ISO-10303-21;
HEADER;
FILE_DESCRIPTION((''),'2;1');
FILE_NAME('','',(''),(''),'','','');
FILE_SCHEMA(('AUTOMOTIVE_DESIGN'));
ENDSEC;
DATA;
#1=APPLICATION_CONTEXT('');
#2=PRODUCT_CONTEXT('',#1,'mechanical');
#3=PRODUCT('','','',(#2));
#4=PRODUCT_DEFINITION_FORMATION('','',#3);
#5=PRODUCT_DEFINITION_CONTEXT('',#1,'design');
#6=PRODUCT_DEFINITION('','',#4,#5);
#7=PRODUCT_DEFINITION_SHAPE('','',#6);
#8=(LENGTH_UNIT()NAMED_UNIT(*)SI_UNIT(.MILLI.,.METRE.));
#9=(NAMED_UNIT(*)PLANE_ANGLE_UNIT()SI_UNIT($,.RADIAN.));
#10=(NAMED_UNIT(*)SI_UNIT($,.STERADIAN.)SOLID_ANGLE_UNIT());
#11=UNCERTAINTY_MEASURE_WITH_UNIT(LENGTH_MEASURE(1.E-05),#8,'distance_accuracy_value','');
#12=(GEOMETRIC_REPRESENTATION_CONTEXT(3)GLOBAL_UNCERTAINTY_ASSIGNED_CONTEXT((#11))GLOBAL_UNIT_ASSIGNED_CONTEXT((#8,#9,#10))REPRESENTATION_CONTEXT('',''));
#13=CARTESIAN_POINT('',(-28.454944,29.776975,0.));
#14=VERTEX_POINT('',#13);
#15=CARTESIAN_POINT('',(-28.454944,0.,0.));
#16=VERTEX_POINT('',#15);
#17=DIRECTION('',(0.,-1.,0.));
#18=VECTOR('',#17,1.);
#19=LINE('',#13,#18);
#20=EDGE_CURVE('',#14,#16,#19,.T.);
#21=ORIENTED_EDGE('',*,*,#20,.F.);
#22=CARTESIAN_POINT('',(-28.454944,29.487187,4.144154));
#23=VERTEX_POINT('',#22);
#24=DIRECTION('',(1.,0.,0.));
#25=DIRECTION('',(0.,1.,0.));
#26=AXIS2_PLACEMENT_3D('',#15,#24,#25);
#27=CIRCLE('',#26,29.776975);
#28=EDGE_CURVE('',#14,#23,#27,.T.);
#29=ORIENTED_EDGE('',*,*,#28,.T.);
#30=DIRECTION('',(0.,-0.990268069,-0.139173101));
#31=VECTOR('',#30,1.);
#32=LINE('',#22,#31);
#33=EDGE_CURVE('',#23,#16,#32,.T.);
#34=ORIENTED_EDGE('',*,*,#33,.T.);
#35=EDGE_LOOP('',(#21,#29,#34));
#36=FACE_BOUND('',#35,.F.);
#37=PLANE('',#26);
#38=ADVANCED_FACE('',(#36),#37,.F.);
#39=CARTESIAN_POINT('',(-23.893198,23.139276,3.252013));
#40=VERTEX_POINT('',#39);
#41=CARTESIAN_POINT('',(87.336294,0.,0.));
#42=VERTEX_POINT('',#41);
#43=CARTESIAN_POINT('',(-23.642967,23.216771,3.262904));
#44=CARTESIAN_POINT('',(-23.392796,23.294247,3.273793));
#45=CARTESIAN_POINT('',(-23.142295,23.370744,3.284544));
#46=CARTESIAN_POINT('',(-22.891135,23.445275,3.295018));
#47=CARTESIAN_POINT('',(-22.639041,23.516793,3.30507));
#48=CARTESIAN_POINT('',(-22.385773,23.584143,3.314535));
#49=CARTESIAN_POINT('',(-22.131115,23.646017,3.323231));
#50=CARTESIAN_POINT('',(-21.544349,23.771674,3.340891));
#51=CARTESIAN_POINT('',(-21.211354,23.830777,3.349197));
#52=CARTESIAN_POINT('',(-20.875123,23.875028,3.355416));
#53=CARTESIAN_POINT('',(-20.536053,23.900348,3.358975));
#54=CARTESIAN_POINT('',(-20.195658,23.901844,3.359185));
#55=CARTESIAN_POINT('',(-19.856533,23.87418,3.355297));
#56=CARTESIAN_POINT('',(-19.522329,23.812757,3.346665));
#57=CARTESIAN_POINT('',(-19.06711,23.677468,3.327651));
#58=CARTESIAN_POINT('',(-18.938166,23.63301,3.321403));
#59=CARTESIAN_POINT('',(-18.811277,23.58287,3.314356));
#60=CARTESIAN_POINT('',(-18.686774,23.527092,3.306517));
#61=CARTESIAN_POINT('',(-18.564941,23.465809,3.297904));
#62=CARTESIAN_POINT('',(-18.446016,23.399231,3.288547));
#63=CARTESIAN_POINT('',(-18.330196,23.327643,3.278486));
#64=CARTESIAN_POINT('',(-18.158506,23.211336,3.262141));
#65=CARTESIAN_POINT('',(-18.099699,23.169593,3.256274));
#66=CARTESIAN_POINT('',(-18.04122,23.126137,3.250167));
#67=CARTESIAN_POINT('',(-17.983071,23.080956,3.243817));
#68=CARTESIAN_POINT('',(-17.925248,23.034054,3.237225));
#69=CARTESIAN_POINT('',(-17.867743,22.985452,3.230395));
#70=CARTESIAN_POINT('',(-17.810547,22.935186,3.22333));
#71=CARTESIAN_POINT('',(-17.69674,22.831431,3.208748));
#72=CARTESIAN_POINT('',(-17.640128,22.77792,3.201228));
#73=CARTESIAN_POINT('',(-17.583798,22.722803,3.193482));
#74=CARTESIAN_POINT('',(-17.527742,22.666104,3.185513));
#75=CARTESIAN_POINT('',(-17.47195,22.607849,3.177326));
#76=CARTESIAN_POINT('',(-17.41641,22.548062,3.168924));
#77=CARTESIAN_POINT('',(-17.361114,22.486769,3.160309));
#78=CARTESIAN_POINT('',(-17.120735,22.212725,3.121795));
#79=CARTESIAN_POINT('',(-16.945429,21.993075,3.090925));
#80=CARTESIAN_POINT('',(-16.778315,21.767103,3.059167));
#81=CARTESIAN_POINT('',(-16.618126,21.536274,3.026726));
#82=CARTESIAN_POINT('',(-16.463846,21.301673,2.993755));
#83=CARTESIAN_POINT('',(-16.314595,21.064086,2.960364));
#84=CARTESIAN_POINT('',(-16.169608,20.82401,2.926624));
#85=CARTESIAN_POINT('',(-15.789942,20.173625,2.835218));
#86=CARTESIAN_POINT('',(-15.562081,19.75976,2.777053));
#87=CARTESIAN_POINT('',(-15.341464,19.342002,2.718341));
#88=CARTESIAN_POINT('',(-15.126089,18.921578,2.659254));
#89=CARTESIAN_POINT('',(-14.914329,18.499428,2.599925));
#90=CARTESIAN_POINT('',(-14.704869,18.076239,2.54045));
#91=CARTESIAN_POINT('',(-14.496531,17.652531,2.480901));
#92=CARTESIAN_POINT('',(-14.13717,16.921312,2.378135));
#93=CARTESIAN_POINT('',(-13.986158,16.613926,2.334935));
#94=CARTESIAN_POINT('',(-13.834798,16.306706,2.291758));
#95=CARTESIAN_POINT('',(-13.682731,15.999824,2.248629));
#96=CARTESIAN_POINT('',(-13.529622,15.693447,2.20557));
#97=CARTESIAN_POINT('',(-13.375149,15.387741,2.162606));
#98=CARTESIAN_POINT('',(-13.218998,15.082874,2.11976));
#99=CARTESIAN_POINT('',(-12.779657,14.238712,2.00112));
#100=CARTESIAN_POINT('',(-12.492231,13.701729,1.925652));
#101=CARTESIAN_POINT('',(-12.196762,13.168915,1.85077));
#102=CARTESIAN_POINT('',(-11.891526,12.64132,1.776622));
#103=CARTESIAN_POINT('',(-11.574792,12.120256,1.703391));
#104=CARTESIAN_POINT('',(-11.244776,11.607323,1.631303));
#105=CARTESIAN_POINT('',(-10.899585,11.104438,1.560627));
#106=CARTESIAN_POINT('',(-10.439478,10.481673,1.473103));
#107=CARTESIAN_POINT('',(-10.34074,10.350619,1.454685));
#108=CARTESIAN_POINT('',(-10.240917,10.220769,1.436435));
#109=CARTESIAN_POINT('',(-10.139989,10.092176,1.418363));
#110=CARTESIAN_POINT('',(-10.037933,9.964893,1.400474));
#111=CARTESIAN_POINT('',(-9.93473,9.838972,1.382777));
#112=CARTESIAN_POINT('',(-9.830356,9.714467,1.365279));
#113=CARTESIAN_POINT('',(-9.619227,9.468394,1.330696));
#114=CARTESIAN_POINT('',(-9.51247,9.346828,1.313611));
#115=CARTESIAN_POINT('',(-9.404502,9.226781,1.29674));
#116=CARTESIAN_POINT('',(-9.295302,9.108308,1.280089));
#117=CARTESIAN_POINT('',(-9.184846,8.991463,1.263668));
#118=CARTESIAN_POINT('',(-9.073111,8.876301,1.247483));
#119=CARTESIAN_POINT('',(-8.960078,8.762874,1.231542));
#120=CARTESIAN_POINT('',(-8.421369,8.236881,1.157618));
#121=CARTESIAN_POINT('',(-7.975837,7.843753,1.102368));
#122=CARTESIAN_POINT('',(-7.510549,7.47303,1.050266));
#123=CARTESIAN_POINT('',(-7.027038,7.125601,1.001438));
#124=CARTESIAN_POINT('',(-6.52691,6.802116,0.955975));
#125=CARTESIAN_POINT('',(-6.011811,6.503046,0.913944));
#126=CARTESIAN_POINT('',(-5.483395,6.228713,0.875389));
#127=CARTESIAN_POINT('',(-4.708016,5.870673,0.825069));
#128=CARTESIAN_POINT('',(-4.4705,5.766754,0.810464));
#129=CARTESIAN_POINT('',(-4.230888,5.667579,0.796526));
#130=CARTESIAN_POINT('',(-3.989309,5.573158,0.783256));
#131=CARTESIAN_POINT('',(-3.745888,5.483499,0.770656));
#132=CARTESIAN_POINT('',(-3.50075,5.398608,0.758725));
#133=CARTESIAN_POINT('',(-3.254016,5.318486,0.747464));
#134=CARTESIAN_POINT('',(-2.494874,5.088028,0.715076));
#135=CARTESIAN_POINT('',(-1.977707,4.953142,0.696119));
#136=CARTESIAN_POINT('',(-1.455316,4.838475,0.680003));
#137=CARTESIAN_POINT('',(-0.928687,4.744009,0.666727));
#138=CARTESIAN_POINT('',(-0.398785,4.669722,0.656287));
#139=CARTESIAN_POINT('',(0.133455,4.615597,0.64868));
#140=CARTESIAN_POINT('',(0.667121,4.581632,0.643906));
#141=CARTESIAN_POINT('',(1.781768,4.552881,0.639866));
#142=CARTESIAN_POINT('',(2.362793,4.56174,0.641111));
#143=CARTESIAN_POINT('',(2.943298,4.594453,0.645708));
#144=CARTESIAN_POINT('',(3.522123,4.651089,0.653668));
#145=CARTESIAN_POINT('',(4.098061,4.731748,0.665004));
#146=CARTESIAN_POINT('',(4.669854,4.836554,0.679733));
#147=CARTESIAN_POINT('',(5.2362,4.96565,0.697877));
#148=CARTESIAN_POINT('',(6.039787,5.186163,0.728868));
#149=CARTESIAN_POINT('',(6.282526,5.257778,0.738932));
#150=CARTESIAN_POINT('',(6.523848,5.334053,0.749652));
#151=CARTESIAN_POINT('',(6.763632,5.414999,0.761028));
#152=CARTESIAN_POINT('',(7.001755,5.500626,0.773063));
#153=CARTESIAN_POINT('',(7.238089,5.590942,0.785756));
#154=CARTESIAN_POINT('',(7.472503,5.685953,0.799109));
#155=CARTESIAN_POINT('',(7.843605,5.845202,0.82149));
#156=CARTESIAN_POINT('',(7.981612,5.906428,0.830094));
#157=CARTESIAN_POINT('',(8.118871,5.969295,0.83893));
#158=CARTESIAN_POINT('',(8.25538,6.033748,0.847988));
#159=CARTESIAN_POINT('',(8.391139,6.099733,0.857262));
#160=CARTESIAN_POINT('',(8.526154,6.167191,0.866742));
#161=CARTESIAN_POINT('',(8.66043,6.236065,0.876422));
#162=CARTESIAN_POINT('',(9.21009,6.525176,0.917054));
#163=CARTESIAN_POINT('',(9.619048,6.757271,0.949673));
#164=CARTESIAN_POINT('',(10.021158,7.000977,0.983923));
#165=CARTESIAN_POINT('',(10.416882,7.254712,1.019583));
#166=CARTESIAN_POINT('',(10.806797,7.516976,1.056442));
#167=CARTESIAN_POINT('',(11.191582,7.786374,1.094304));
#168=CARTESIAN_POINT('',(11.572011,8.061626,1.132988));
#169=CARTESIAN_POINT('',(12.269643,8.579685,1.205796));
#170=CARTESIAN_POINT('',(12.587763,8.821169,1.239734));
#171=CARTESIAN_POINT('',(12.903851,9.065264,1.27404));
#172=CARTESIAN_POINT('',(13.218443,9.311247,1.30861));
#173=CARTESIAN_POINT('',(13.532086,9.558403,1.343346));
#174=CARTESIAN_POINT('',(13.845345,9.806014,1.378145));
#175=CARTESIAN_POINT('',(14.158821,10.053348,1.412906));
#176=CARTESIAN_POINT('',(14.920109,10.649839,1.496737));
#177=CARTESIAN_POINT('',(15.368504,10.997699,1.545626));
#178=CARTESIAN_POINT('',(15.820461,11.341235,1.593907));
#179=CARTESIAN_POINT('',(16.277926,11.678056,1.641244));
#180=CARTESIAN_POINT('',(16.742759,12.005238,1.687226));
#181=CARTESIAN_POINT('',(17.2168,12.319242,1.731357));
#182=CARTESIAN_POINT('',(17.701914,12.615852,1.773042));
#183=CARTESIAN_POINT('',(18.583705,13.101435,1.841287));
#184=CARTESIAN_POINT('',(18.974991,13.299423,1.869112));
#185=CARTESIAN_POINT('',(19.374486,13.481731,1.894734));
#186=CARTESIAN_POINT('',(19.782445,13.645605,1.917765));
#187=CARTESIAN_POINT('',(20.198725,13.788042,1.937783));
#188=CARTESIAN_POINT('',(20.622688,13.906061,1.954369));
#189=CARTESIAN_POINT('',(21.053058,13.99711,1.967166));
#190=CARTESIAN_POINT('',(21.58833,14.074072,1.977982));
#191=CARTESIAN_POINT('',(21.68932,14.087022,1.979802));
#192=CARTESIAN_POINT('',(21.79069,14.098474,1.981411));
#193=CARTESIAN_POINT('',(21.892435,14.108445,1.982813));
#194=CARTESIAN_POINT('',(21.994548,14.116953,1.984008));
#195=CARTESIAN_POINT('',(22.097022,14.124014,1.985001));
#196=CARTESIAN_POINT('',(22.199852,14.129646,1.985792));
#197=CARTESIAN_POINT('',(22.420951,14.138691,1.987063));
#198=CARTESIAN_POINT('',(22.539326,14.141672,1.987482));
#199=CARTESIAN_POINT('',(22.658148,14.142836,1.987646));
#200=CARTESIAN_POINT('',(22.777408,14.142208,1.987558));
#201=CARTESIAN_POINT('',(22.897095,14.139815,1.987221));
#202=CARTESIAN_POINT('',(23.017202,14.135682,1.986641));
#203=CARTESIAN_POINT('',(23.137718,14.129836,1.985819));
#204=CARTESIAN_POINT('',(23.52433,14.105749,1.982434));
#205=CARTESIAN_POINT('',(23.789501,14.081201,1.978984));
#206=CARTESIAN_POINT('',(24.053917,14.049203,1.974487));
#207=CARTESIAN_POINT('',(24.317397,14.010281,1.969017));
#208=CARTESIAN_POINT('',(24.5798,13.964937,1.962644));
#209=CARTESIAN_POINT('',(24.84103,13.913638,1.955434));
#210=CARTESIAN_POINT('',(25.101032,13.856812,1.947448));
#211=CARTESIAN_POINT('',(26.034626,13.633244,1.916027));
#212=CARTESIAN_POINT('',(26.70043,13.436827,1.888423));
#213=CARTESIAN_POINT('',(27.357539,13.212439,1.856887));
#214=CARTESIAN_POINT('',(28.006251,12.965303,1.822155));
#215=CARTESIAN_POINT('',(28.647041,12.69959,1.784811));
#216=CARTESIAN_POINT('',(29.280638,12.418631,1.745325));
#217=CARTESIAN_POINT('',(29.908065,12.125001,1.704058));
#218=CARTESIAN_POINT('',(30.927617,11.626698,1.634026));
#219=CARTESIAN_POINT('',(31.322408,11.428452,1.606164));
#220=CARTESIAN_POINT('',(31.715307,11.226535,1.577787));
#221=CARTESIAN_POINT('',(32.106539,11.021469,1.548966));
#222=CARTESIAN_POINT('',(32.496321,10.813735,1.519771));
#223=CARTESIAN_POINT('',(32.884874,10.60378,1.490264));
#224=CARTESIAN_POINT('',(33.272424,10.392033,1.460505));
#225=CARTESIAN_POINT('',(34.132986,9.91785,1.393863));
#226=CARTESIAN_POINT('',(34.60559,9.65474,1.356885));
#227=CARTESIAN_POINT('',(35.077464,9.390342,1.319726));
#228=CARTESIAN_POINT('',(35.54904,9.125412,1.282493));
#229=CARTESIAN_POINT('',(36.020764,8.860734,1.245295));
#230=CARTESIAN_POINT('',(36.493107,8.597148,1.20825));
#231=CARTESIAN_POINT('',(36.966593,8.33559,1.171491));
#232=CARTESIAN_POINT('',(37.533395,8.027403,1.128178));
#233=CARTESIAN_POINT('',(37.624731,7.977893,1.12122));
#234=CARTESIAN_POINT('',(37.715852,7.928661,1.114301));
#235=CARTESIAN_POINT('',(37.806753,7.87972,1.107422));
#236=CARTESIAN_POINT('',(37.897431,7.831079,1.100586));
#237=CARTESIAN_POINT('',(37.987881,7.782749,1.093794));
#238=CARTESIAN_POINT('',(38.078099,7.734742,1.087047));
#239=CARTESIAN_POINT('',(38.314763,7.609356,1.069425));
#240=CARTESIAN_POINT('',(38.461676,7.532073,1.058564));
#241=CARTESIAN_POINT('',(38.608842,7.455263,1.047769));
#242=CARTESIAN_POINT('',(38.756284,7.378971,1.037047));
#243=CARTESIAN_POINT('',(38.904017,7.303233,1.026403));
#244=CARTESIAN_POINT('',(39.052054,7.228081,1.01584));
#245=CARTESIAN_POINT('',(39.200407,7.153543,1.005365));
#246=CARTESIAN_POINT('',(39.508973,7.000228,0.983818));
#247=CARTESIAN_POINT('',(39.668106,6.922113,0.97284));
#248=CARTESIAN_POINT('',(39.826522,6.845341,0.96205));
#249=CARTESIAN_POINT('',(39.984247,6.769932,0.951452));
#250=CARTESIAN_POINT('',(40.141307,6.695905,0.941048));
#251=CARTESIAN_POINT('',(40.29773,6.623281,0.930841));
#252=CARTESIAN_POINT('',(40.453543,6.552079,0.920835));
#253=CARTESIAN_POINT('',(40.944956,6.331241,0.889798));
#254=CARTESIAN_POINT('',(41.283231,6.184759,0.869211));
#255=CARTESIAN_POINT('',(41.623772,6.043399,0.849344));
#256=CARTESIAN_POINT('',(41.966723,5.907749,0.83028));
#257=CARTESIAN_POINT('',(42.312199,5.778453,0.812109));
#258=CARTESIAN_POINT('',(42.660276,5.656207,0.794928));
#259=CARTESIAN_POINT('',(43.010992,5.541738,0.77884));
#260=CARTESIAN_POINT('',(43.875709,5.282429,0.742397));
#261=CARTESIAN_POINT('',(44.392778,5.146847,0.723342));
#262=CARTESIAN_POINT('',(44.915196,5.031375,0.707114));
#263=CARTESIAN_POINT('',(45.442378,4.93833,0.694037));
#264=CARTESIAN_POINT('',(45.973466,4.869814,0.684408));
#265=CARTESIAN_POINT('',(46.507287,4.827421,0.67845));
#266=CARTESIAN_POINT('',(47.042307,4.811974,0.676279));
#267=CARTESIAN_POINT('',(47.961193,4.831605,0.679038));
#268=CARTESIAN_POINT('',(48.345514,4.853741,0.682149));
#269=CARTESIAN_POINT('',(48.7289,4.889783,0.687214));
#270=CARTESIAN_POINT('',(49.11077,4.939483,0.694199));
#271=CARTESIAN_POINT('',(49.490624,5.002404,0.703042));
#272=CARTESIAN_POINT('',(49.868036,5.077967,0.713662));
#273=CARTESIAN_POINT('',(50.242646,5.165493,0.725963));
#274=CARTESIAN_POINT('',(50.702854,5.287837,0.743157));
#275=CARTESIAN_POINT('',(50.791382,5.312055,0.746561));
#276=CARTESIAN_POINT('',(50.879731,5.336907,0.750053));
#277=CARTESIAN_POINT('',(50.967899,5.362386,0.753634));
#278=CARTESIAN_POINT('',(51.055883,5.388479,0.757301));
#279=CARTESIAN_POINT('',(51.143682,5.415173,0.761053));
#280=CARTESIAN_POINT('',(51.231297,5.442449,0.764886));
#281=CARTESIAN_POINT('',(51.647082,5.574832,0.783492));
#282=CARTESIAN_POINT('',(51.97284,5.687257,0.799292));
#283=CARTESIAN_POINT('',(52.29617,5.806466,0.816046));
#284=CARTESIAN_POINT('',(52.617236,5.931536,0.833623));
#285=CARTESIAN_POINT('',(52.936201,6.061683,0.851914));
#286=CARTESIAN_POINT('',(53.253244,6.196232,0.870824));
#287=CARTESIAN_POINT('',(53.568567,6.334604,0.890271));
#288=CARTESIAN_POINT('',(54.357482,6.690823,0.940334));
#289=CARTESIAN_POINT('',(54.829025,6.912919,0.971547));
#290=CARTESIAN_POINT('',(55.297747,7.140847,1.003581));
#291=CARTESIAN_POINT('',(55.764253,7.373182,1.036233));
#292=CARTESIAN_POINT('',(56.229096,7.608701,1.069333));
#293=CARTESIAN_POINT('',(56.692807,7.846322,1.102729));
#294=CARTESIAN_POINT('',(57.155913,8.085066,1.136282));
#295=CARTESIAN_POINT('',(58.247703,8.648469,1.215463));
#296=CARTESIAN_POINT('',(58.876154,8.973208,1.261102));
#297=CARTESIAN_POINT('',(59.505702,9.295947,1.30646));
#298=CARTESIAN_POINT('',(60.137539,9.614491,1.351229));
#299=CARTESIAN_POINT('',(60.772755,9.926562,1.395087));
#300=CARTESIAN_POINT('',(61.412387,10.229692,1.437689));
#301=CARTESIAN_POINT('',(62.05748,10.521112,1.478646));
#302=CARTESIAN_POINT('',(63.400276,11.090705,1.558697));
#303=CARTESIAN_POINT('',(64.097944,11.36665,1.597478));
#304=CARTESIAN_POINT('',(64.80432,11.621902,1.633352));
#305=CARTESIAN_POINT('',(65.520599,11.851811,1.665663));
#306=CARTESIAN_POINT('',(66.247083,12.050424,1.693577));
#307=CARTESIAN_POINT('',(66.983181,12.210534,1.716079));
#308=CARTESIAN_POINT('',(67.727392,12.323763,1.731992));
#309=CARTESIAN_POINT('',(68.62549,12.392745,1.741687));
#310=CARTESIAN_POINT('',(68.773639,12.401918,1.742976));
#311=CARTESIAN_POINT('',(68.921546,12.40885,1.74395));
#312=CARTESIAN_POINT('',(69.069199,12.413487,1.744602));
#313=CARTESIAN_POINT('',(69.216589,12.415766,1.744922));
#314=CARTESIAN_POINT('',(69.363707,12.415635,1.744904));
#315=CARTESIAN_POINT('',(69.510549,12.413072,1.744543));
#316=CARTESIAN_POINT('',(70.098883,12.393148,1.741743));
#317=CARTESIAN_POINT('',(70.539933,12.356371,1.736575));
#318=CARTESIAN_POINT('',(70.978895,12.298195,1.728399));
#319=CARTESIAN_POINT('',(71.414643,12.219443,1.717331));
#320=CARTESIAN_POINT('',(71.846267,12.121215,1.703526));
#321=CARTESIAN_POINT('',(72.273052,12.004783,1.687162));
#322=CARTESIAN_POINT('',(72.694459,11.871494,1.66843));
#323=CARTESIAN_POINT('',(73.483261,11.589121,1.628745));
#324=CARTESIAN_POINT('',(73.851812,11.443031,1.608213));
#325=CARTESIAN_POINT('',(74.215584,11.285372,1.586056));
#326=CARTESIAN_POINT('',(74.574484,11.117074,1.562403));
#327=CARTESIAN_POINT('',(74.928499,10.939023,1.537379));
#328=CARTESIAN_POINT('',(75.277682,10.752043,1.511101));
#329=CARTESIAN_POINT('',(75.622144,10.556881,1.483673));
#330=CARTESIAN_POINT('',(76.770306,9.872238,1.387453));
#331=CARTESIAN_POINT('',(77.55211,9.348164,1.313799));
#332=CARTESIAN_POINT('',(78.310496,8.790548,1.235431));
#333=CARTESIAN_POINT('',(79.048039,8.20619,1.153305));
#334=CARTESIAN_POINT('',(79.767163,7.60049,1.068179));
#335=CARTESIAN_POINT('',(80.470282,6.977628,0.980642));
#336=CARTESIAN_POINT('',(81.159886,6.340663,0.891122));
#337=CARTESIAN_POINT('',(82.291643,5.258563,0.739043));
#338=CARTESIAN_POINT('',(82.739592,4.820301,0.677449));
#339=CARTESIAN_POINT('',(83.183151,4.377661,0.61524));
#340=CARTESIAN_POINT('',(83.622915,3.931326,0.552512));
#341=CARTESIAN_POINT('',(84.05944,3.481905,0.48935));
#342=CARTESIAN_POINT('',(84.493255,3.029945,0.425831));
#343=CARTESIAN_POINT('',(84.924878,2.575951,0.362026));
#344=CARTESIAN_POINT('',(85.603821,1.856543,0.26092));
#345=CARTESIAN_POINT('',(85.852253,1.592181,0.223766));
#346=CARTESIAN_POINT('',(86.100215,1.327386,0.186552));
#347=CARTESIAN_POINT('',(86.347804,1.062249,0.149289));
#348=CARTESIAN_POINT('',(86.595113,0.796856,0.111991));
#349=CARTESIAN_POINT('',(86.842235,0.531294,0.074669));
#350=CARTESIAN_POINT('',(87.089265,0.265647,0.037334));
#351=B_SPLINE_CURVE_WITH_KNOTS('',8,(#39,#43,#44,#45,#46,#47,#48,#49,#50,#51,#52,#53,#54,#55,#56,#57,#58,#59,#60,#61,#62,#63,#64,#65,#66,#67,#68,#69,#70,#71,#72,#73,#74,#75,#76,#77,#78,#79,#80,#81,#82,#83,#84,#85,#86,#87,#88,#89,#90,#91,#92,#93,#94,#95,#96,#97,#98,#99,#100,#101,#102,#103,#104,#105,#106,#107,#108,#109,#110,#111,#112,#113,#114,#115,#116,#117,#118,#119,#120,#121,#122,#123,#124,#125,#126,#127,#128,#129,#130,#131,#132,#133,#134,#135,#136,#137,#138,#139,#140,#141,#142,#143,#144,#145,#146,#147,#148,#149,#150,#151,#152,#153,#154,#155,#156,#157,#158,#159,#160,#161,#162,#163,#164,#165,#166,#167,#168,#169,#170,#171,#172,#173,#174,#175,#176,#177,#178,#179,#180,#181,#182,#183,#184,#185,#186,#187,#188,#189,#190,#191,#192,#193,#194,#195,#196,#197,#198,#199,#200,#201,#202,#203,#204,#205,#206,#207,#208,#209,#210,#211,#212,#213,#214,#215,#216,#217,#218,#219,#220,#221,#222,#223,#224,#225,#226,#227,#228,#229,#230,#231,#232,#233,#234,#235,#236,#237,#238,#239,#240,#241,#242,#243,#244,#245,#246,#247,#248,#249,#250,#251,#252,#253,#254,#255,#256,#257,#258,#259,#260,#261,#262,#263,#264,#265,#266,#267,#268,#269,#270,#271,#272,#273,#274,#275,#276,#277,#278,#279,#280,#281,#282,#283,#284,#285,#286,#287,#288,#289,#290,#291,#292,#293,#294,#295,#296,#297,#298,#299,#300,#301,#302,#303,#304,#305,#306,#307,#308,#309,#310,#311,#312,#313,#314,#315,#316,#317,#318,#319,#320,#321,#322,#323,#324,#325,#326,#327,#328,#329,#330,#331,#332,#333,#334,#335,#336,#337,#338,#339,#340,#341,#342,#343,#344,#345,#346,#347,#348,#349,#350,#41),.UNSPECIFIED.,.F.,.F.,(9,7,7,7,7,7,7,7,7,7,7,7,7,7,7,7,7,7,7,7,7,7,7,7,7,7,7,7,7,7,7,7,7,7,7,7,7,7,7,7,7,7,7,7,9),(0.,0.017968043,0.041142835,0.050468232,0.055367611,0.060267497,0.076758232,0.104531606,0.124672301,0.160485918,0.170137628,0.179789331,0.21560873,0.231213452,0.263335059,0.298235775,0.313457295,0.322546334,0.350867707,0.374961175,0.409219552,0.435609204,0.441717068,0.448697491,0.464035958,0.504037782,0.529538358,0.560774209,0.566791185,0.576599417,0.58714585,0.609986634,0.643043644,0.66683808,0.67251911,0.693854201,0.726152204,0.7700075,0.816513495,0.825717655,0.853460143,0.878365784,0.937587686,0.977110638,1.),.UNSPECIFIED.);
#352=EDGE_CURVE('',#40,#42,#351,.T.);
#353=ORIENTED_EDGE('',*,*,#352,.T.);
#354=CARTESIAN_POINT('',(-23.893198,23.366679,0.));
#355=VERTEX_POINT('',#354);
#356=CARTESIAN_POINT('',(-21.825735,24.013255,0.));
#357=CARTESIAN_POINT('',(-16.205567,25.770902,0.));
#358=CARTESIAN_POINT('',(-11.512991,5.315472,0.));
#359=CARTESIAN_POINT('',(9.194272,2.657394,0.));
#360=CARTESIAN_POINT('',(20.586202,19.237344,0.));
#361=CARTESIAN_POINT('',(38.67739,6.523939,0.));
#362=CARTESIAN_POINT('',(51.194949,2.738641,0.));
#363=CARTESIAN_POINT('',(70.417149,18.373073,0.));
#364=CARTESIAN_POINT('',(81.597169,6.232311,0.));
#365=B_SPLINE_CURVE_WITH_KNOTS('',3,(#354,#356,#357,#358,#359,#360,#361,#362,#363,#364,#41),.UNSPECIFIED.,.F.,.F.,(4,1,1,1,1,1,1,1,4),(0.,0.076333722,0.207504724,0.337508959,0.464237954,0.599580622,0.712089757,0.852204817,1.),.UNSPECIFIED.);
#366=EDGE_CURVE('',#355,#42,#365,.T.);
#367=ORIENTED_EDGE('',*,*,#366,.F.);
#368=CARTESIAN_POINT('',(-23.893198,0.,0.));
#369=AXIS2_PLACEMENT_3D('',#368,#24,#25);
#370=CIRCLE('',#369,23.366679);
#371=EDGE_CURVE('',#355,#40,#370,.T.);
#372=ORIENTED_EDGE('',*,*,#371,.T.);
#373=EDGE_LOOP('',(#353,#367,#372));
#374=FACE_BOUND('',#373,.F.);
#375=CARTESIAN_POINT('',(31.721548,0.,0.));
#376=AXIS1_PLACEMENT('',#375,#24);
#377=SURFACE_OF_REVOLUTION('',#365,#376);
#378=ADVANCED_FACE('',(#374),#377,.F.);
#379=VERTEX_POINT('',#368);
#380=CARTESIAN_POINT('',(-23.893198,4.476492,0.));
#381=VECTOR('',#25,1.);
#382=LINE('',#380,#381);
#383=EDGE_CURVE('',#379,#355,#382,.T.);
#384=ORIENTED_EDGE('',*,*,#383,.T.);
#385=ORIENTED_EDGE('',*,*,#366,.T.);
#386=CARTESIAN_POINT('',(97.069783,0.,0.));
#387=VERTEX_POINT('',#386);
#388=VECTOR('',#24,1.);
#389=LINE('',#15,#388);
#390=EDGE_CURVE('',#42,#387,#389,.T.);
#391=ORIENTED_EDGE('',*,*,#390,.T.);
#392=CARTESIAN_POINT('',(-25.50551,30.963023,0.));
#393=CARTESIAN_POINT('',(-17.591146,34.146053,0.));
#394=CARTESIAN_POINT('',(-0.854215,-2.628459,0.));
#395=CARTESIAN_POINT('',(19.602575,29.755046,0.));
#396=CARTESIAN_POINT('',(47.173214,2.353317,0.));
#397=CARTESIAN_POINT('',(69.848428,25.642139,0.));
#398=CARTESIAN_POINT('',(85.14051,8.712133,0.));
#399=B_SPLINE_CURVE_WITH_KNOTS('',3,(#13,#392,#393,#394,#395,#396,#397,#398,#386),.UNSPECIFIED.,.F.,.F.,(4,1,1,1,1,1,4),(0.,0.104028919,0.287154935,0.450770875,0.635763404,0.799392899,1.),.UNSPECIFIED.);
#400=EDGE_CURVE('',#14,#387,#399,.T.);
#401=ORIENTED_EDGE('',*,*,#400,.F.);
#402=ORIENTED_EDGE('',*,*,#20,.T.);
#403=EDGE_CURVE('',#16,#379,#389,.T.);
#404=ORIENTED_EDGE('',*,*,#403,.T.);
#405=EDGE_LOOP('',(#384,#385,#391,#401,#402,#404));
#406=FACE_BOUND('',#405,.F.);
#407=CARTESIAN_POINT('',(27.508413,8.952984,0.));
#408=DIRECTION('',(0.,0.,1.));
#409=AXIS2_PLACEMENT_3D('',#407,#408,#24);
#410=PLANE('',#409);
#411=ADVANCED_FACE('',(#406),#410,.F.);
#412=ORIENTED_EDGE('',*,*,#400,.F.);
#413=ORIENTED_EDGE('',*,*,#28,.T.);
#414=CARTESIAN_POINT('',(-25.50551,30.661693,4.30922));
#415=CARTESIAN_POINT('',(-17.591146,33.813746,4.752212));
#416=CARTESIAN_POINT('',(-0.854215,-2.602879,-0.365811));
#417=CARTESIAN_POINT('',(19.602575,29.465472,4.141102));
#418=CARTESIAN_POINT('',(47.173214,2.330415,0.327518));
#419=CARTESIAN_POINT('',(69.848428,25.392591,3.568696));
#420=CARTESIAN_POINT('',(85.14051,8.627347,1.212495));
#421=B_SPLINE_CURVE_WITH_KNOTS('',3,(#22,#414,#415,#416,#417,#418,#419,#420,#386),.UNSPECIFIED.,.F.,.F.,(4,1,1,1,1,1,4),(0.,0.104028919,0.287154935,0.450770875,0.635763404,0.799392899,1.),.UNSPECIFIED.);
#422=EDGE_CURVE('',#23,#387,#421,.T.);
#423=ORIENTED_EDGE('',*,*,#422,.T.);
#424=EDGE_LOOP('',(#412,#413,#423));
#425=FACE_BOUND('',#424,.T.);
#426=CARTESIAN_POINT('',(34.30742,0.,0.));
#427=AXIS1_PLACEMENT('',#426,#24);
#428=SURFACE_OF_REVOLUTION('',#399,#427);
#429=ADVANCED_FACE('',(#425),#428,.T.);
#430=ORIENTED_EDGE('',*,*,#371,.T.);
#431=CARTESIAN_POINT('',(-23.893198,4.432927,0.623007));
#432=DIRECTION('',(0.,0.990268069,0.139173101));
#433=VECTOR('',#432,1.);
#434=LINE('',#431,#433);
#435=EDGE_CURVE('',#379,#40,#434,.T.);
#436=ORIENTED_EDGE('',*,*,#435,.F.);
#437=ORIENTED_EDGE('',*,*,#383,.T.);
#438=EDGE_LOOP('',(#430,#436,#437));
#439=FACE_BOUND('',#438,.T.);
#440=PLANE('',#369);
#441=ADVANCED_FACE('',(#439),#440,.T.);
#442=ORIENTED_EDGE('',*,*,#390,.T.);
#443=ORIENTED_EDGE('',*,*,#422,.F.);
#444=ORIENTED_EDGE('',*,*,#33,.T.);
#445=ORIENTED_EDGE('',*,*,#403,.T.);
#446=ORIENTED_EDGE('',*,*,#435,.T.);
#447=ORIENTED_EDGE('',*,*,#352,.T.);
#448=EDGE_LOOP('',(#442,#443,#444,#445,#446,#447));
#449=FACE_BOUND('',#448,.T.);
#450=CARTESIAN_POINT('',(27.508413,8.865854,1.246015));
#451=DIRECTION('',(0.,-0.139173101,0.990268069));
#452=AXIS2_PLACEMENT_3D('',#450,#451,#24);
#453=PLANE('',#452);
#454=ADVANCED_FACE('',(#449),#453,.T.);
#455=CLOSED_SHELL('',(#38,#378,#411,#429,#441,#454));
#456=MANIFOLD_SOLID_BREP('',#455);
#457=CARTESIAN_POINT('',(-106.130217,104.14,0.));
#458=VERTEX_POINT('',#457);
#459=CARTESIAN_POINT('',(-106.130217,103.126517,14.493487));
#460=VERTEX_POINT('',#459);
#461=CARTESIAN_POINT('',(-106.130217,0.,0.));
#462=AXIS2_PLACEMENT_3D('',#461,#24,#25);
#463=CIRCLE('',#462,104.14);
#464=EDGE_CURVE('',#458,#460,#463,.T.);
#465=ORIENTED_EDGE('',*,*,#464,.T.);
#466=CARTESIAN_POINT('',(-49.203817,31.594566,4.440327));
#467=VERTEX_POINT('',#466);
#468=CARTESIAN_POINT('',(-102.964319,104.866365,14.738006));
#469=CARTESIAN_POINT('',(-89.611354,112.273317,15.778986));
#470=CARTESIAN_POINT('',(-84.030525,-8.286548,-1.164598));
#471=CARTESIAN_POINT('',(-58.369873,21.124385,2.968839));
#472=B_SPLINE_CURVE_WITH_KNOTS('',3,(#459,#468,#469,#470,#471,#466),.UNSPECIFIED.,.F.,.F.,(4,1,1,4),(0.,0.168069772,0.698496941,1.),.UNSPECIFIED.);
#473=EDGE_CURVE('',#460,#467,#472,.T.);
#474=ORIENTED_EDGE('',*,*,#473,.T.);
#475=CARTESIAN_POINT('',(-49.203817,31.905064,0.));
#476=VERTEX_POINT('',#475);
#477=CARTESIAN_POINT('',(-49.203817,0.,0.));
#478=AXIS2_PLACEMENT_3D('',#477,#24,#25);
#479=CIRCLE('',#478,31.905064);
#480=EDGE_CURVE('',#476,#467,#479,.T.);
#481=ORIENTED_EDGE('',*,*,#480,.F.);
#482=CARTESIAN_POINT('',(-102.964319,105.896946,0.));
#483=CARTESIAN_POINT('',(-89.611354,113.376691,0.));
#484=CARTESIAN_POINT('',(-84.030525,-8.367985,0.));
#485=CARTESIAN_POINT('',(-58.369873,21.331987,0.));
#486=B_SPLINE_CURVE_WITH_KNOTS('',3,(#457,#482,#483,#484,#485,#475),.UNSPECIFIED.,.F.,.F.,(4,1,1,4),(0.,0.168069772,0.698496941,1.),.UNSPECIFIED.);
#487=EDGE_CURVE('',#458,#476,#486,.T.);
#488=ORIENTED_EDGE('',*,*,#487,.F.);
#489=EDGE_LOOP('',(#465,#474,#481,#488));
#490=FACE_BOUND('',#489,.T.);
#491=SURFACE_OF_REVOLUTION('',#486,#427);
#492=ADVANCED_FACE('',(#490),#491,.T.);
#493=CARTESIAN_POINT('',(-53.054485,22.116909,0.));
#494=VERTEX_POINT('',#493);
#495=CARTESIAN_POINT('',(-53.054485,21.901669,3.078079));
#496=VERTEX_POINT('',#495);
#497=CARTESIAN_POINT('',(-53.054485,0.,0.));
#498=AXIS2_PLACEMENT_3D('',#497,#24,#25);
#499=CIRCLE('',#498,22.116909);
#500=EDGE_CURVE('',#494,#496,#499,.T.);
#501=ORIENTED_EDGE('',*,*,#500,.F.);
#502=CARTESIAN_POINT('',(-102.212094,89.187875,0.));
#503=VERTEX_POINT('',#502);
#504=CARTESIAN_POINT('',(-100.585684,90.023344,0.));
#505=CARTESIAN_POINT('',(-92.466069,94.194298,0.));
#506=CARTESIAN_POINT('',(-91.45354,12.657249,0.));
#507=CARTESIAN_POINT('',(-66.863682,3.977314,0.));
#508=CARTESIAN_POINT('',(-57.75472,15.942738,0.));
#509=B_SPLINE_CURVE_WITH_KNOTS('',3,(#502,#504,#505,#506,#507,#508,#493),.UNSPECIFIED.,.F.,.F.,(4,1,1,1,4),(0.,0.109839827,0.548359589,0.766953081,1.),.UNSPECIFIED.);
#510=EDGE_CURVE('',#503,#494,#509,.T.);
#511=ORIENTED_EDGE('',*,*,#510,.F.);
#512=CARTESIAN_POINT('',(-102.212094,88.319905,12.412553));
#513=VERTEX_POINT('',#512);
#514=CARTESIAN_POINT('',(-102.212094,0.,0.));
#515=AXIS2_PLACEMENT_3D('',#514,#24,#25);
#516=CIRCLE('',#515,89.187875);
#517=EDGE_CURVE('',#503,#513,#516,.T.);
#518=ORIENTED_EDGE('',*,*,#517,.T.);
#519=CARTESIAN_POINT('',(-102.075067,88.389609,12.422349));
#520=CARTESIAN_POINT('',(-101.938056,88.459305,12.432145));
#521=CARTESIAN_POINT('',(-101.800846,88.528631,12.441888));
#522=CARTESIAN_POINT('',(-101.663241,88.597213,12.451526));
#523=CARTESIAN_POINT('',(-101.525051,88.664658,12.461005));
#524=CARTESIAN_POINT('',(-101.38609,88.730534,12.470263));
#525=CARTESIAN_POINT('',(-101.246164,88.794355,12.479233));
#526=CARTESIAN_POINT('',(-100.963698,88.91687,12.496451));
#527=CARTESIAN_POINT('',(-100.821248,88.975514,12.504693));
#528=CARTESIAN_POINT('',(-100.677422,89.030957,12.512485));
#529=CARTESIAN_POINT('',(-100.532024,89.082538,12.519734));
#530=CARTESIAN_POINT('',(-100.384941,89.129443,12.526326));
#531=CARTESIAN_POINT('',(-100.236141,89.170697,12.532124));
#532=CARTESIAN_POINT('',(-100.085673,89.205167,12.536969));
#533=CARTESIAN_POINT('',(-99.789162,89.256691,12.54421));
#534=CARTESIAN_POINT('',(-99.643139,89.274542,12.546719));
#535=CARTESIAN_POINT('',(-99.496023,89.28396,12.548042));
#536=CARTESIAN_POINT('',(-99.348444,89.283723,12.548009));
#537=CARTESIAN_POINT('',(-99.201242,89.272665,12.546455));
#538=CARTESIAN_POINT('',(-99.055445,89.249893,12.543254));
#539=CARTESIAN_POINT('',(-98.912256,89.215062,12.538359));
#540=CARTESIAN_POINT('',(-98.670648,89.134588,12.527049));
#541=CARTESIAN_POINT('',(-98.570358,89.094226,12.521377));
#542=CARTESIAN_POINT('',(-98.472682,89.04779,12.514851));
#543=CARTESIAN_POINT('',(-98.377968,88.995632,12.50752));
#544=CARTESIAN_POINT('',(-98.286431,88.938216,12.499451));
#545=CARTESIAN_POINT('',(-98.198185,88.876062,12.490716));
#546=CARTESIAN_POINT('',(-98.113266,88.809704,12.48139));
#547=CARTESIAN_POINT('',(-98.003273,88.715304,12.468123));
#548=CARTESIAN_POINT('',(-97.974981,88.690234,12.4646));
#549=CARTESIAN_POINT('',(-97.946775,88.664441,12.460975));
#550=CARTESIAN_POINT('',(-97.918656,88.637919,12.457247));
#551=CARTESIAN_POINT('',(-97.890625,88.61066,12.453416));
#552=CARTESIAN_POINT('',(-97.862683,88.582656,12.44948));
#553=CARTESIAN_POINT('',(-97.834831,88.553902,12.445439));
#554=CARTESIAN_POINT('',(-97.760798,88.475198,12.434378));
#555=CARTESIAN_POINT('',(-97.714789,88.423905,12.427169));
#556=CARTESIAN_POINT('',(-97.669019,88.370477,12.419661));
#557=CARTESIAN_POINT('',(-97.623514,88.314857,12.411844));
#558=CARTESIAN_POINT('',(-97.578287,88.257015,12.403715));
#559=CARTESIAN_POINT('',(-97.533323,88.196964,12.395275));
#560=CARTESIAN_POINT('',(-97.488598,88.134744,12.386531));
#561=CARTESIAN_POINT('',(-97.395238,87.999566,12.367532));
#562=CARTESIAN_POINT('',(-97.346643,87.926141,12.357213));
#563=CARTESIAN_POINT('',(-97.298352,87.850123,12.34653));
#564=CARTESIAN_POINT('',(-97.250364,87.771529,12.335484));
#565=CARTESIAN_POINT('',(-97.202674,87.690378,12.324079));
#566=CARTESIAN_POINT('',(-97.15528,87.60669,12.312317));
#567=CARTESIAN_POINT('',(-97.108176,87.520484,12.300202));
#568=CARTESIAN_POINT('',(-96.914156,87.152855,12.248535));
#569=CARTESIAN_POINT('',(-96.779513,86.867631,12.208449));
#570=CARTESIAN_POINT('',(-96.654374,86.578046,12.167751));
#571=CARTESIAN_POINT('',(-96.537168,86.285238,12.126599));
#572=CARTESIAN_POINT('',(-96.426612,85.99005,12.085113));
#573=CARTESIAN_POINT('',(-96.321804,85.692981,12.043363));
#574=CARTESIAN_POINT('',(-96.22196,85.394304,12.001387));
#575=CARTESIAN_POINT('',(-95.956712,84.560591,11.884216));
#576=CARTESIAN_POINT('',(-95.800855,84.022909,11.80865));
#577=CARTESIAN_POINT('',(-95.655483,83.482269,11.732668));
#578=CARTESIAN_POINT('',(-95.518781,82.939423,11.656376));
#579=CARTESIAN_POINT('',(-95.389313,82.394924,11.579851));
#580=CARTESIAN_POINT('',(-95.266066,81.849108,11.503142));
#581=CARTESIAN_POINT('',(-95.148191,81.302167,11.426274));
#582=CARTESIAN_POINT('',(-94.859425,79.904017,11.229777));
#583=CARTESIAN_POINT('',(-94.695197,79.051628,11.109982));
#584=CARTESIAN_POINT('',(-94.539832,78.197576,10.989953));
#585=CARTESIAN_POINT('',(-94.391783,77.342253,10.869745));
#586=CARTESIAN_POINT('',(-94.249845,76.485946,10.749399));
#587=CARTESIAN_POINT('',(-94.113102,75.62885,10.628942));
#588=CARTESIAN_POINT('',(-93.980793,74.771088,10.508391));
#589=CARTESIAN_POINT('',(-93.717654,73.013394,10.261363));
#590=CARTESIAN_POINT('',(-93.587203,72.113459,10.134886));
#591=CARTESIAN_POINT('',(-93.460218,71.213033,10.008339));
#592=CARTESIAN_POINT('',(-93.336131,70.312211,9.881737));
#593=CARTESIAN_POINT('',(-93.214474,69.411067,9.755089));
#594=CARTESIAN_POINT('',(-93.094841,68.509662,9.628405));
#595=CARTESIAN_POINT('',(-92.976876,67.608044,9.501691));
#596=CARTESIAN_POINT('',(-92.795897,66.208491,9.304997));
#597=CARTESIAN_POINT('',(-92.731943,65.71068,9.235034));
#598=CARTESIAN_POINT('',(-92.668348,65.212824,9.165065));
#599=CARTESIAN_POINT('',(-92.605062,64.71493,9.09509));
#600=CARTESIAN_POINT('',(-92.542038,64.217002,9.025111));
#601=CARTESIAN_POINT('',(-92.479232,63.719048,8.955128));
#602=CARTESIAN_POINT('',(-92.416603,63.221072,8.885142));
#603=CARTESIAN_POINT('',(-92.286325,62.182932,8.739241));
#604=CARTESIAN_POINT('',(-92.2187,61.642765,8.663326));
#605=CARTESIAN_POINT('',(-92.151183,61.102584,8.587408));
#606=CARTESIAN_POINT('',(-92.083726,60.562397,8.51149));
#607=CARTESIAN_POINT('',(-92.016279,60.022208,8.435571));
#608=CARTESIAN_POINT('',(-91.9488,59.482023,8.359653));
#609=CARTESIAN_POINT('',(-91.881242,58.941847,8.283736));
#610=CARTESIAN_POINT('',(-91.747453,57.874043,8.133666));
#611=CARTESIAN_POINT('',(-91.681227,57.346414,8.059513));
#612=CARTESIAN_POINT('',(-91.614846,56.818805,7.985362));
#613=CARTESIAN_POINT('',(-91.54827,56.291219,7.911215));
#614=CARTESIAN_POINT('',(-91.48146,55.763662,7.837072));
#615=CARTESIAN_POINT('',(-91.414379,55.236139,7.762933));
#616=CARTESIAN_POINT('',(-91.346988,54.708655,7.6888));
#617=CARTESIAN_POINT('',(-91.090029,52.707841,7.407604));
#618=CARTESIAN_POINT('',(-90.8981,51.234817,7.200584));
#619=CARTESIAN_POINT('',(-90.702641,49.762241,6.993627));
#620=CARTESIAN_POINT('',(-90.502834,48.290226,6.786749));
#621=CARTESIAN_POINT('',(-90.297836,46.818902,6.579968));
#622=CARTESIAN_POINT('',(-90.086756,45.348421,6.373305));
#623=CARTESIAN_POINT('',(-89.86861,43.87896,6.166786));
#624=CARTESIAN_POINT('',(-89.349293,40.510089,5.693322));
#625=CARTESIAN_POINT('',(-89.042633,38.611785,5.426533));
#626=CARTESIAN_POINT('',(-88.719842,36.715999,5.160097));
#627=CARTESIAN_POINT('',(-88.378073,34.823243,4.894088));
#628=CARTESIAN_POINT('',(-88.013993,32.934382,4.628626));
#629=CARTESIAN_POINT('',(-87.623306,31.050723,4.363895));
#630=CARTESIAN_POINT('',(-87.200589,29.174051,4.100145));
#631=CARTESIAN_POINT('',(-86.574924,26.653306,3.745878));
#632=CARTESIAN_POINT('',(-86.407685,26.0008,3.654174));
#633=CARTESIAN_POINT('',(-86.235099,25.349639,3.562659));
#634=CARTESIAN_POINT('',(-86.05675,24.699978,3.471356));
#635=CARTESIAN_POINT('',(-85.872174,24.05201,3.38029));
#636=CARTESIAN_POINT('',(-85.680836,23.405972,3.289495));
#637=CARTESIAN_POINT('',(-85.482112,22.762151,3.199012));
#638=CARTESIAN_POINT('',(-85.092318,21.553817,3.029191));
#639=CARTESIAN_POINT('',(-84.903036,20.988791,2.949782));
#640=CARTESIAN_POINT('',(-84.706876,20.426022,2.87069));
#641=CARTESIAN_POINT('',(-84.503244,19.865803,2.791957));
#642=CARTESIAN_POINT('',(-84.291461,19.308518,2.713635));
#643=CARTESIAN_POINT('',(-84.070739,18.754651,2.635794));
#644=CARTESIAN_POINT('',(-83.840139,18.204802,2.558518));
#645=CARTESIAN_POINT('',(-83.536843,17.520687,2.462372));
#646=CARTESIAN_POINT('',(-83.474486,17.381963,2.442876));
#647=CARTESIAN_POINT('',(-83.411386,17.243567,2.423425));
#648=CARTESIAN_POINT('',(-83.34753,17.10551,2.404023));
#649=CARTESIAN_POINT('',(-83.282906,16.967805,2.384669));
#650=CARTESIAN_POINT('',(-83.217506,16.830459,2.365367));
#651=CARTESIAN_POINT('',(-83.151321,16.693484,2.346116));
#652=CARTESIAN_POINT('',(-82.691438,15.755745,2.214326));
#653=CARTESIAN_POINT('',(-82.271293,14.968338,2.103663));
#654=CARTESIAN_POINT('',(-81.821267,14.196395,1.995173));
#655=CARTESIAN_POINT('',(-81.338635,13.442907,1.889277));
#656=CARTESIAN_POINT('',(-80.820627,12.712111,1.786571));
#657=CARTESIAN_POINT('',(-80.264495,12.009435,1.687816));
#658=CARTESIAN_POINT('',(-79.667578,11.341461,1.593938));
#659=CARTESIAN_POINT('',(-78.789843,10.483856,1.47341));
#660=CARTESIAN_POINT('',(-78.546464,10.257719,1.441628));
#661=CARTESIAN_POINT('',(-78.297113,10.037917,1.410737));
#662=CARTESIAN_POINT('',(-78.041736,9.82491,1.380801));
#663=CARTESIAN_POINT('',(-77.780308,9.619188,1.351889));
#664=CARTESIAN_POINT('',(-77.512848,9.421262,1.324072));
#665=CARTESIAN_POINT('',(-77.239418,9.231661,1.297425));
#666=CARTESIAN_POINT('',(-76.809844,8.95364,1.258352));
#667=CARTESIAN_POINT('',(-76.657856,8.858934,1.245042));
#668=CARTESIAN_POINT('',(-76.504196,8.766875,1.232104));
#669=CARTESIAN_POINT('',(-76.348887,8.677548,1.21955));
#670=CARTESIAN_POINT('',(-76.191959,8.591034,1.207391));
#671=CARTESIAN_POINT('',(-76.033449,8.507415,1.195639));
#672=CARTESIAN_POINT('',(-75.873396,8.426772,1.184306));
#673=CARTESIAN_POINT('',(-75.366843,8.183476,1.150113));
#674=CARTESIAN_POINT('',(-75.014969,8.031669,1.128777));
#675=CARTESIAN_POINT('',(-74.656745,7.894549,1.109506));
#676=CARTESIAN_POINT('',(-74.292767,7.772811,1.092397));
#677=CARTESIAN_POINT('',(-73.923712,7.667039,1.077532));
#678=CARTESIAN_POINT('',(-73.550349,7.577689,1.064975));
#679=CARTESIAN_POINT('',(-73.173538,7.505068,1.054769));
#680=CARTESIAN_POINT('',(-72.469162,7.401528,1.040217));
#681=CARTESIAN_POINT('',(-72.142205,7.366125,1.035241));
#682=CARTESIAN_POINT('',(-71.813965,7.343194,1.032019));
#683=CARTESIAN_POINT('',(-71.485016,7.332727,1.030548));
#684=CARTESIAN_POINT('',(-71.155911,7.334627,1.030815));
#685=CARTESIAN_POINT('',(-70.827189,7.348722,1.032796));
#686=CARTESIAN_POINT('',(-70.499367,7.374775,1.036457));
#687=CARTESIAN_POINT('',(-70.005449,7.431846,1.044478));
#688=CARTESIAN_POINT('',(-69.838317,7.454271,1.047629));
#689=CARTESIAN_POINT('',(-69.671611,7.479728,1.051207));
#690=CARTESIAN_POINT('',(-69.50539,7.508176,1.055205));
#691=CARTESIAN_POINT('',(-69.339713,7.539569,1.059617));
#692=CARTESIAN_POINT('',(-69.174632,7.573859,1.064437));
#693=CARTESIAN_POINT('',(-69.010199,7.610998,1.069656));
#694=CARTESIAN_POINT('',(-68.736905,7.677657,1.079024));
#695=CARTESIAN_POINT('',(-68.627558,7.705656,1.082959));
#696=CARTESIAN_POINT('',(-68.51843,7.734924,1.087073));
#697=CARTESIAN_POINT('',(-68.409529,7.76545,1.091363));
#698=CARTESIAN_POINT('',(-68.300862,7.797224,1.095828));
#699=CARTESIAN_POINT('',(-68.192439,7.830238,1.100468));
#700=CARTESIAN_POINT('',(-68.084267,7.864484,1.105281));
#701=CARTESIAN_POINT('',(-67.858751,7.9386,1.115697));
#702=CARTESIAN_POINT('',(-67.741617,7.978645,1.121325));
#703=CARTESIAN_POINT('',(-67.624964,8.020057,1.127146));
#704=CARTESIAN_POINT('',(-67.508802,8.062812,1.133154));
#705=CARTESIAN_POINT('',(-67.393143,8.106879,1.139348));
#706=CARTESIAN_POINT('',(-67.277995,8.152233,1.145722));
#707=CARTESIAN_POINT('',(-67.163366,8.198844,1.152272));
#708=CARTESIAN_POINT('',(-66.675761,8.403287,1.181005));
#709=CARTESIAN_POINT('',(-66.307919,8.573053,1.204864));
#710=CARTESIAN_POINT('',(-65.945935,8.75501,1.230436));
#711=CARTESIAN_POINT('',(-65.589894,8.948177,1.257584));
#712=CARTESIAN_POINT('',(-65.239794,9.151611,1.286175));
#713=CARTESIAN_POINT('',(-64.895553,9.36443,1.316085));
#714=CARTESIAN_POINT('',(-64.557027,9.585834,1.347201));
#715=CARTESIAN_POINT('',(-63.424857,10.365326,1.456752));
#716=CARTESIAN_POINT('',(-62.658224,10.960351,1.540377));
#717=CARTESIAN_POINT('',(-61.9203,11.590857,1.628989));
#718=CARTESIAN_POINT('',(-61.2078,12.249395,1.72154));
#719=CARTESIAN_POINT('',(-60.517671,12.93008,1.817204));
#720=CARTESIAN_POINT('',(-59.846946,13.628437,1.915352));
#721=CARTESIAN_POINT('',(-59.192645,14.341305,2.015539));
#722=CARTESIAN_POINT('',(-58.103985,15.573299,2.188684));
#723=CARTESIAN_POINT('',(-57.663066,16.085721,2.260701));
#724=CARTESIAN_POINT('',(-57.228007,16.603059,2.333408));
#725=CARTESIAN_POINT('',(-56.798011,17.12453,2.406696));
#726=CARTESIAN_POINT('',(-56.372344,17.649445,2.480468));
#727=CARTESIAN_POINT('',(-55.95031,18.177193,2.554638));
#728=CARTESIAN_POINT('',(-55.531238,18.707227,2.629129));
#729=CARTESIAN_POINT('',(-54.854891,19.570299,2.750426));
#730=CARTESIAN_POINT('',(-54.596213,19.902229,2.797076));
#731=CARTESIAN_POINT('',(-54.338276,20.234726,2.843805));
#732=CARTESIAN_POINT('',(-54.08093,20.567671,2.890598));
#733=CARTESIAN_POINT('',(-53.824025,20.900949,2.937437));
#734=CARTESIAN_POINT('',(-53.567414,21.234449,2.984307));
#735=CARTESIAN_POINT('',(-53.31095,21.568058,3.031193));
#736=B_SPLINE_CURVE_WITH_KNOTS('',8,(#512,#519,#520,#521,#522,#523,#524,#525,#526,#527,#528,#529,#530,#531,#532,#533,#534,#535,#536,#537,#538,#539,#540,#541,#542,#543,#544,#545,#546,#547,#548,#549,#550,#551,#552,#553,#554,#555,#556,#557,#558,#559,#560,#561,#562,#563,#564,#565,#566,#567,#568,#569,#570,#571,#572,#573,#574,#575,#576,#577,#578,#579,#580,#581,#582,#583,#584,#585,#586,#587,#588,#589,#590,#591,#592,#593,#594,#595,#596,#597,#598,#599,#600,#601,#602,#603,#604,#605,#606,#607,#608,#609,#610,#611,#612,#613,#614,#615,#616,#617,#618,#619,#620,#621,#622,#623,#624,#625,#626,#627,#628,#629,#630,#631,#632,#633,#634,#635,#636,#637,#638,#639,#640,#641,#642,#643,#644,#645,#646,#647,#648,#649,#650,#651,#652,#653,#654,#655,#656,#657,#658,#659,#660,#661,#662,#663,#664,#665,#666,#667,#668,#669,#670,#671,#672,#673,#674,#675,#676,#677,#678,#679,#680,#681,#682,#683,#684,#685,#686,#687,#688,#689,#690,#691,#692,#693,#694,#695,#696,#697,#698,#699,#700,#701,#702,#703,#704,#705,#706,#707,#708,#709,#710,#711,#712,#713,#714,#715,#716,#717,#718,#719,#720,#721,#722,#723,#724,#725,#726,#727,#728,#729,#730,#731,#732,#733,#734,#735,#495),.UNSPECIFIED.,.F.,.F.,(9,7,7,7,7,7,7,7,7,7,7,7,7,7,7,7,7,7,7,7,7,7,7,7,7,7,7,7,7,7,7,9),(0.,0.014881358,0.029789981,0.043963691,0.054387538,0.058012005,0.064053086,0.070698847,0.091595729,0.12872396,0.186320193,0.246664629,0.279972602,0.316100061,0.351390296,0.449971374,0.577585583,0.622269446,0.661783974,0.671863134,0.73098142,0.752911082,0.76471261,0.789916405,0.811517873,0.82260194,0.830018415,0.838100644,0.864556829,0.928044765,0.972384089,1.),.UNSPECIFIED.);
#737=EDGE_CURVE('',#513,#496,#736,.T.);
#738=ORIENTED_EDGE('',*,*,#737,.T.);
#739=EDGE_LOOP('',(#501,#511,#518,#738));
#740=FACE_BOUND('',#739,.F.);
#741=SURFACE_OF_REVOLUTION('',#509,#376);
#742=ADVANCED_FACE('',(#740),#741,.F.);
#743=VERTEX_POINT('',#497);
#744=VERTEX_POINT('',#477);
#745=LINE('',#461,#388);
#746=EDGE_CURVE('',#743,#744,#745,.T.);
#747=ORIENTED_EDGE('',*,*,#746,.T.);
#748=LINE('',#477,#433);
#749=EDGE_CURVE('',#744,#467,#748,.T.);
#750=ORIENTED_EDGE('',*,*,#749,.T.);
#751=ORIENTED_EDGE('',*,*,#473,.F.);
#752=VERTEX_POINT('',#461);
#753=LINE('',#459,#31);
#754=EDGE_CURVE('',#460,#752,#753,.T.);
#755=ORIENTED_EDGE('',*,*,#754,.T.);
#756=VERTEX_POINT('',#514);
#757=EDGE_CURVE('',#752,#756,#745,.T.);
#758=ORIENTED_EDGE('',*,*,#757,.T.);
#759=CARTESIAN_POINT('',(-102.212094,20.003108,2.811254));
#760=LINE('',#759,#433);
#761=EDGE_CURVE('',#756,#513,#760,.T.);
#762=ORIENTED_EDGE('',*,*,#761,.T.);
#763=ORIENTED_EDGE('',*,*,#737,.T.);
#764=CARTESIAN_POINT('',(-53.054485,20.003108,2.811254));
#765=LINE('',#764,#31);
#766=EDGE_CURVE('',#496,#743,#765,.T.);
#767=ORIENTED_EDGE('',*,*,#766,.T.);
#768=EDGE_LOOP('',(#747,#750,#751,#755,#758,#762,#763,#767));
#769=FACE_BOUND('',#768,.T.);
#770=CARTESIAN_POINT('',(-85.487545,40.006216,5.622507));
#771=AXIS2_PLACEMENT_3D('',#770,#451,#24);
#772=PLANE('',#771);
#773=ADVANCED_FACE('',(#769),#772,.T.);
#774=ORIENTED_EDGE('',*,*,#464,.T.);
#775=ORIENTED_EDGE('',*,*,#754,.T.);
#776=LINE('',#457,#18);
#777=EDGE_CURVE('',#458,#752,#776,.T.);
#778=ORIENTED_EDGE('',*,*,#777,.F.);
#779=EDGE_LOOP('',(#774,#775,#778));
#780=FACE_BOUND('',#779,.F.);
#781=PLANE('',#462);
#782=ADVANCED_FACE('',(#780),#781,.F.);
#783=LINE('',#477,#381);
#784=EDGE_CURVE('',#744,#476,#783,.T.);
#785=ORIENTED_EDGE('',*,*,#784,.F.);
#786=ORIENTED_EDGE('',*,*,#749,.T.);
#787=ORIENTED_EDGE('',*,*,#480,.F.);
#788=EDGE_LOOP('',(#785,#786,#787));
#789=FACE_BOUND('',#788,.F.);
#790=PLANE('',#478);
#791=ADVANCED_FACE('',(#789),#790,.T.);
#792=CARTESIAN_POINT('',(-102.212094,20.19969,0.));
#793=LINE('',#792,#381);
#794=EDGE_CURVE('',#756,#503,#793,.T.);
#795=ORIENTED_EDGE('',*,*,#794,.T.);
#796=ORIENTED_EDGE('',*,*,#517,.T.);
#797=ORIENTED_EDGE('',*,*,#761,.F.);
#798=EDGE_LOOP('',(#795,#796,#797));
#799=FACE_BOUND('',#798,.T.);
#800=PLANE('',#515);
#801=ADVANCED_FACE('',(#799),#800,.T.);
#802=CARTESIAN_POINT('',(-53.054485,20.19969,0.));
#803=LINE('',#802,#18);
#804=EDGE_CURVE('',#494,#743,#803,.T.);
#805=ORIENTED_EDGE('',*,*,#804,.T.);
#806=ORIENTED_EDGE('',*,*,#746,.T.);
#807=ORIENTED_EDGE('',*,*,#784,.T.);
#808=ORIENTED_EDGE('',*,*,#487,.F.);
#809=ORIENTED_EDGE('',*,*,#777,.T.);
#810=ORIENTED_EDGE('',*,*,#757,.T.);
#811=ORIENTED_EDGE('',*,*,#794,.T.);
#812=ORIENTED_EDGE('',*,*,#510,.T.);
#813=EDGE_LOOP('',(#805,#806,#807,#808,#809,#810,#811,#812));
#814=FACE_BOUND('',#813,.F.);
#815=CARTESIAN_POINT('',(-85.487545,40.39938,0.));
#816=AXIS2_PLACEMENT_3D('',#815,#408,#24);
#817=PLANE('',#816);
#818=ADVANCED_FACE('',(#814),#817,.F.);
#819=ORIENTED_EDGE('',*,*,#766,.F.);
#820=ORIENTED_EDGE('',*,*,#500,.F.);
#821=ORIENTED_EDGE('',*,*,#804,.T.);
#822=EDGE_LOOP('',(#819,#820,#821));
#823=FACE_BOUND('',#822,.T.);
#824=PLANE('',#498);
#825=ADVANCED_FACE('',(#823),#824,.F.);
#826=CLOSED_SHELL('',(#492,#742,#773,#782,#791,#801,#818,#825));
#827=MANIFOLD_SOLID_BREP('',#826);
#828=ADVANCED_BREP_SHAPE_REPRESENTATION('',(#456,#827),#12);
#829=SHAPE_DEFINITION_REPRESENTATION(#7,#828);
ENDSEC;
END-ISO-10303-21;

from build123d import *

# Parameters (mm, degrees)
F1_ANGLE = 8


with BuildPart() as f1:
    # F0 (on Top) → F1 (revolve)
    with BuildSketch(Plane.XY):
        with BuildLine():
            Line((-106.130216633, 104.14), (-106.130216633, 0))
            Line((-106.130216633, 0), (-49.203816998, 0))
            Line((-49.203816998, 0), (-49.203816998, 31.9050640701))
            add(Edge.make_bspline(
                [(-106.130216633, 104.14), (-102.9643185402, 105.8969464572), (-89.6113543414, 113.3766914754), (-84.0305250862, -8.3679846124), (-58.3698734514, 21.3319865039), (-49.203816998, 31.9050640701)],
                knots=[0, 0, 0, 0, 0.1680697718, 0.6984969415, 1, 1, 1, 1], degree=3))
        make_face()
    revolve(axis=Axis((34.3074197894, 0, 0), (1, 0, 0)), revolution_arc=F1_ANGLE)


with BuildPart() as f1b:
    # F0 (on Top) → F1, piece 2 (revolve)
    with BuildSketch(Plane.XY):
        with BuildLine():
            Line((-28.4549437881, 29.7769746877), (-28.4549437881, 0))
            Line((-28.4549437881, 0), (97.069783367, 0))
            add(Edge.make_bspline(
                [(-28.4549437881, 29.7769746877), (-25.505510303, 30.9630226245), (-17.5911464043, 34.1460534526), (-0.8542154461, -2.6284593328), (19.6025747873, 29.7550463826), (47.1732142173, 2.3533173939), (69.848427966, 25.6421386534), (85.1405103407, 8.7121332704), (97.069783367, 0)],
                knots=[0, 0, 0, 0, 0.1040289186, 0.2871549349, 0.4507708752, 0.6357634036, 0.799392899, 1, 1, 1, 1], degree=3))
        make_face()
    revolve(axis=Axis((34.3074197894, 0, 0), (1, 0, 0)), revolution_arc=F1_ANGLE)


with BuildPart() as f3_tool:
    # F2 (on Top) → F3 (revolve)
    with BuildSketch(Plane.XY):
        with BuildLine():
            Line((-102.2120937705, 89.1878753901), (-102.2120937705, 0))
            Line((-102.2120937705, 0), (-53.0544854701, 0))
            Line((-53.0544854701, 0), (-53.0544854701, 22.1169088036))
            add(Edge.make_bspline(
                [(-102.2120937705, 89.1878753901), (-100.5856844661, 90.0233435374), (-92.466069192, 94.1942984824), (-91.4535396277, 12.6572494157), (-66.8636821011, 3.9773143697), (-57.7547195537, 15.9427379014), (-53.0544854701, 22.1169088036)],
                knots=[0, 0, 0, 0, 0.1098398271, 0.5483595892, 0.7669530815, 1, 1, 1, 1], degree=3))
        make_face()
        with BuildLine():
            Line((-23.8931979984, 23.3666785061), (-23.8931979984, 0))
            Line((-23.8931979984, 0), (87.336294353, 0))
            add(Edge.make_bspline(
                [(-23.8931979984, 23.3666785061), (-21.8257351009, 24.013255196), (-16.2055674211, 25.7709019325), (-11.5129910845, 5.315471635), (9.1942721336, 2.6573938778), (20.5862019508, 19.2373441103), (38.6773897038, 6.5239386869), (51.1949485047, 2.7386411572), (70.4171490805, 18.3730730749), (81.5971687408, 6.2323109448), (87.336294353, 0)],
                knots=[0, 0, 0, 0, 0.0763337222, 0.2075047242, 0.3375089586, 0.4642379535, 0.5995806215, 0.7120897566, 0.852204817, 1, 1, 1, 1], degree=3))
        make_face()
    revolve(axis=Axis((31.7215481773, 0, 0), (1, 0, 0)))


with BuildPart() as f1_1:
    add(f1.part)

    # F3: cut by f3_tool
    add(f3_tool.part, mode=Mode.SUBTRACT)


with BuildPart() as f1b_1:
    add(f1b.part)

    # F3: cut by f3_tool
    add(f3_tool.part, mode=Mode.SUBTRACT)


solid = Compound([f1_1.part, f1b_1.part])
